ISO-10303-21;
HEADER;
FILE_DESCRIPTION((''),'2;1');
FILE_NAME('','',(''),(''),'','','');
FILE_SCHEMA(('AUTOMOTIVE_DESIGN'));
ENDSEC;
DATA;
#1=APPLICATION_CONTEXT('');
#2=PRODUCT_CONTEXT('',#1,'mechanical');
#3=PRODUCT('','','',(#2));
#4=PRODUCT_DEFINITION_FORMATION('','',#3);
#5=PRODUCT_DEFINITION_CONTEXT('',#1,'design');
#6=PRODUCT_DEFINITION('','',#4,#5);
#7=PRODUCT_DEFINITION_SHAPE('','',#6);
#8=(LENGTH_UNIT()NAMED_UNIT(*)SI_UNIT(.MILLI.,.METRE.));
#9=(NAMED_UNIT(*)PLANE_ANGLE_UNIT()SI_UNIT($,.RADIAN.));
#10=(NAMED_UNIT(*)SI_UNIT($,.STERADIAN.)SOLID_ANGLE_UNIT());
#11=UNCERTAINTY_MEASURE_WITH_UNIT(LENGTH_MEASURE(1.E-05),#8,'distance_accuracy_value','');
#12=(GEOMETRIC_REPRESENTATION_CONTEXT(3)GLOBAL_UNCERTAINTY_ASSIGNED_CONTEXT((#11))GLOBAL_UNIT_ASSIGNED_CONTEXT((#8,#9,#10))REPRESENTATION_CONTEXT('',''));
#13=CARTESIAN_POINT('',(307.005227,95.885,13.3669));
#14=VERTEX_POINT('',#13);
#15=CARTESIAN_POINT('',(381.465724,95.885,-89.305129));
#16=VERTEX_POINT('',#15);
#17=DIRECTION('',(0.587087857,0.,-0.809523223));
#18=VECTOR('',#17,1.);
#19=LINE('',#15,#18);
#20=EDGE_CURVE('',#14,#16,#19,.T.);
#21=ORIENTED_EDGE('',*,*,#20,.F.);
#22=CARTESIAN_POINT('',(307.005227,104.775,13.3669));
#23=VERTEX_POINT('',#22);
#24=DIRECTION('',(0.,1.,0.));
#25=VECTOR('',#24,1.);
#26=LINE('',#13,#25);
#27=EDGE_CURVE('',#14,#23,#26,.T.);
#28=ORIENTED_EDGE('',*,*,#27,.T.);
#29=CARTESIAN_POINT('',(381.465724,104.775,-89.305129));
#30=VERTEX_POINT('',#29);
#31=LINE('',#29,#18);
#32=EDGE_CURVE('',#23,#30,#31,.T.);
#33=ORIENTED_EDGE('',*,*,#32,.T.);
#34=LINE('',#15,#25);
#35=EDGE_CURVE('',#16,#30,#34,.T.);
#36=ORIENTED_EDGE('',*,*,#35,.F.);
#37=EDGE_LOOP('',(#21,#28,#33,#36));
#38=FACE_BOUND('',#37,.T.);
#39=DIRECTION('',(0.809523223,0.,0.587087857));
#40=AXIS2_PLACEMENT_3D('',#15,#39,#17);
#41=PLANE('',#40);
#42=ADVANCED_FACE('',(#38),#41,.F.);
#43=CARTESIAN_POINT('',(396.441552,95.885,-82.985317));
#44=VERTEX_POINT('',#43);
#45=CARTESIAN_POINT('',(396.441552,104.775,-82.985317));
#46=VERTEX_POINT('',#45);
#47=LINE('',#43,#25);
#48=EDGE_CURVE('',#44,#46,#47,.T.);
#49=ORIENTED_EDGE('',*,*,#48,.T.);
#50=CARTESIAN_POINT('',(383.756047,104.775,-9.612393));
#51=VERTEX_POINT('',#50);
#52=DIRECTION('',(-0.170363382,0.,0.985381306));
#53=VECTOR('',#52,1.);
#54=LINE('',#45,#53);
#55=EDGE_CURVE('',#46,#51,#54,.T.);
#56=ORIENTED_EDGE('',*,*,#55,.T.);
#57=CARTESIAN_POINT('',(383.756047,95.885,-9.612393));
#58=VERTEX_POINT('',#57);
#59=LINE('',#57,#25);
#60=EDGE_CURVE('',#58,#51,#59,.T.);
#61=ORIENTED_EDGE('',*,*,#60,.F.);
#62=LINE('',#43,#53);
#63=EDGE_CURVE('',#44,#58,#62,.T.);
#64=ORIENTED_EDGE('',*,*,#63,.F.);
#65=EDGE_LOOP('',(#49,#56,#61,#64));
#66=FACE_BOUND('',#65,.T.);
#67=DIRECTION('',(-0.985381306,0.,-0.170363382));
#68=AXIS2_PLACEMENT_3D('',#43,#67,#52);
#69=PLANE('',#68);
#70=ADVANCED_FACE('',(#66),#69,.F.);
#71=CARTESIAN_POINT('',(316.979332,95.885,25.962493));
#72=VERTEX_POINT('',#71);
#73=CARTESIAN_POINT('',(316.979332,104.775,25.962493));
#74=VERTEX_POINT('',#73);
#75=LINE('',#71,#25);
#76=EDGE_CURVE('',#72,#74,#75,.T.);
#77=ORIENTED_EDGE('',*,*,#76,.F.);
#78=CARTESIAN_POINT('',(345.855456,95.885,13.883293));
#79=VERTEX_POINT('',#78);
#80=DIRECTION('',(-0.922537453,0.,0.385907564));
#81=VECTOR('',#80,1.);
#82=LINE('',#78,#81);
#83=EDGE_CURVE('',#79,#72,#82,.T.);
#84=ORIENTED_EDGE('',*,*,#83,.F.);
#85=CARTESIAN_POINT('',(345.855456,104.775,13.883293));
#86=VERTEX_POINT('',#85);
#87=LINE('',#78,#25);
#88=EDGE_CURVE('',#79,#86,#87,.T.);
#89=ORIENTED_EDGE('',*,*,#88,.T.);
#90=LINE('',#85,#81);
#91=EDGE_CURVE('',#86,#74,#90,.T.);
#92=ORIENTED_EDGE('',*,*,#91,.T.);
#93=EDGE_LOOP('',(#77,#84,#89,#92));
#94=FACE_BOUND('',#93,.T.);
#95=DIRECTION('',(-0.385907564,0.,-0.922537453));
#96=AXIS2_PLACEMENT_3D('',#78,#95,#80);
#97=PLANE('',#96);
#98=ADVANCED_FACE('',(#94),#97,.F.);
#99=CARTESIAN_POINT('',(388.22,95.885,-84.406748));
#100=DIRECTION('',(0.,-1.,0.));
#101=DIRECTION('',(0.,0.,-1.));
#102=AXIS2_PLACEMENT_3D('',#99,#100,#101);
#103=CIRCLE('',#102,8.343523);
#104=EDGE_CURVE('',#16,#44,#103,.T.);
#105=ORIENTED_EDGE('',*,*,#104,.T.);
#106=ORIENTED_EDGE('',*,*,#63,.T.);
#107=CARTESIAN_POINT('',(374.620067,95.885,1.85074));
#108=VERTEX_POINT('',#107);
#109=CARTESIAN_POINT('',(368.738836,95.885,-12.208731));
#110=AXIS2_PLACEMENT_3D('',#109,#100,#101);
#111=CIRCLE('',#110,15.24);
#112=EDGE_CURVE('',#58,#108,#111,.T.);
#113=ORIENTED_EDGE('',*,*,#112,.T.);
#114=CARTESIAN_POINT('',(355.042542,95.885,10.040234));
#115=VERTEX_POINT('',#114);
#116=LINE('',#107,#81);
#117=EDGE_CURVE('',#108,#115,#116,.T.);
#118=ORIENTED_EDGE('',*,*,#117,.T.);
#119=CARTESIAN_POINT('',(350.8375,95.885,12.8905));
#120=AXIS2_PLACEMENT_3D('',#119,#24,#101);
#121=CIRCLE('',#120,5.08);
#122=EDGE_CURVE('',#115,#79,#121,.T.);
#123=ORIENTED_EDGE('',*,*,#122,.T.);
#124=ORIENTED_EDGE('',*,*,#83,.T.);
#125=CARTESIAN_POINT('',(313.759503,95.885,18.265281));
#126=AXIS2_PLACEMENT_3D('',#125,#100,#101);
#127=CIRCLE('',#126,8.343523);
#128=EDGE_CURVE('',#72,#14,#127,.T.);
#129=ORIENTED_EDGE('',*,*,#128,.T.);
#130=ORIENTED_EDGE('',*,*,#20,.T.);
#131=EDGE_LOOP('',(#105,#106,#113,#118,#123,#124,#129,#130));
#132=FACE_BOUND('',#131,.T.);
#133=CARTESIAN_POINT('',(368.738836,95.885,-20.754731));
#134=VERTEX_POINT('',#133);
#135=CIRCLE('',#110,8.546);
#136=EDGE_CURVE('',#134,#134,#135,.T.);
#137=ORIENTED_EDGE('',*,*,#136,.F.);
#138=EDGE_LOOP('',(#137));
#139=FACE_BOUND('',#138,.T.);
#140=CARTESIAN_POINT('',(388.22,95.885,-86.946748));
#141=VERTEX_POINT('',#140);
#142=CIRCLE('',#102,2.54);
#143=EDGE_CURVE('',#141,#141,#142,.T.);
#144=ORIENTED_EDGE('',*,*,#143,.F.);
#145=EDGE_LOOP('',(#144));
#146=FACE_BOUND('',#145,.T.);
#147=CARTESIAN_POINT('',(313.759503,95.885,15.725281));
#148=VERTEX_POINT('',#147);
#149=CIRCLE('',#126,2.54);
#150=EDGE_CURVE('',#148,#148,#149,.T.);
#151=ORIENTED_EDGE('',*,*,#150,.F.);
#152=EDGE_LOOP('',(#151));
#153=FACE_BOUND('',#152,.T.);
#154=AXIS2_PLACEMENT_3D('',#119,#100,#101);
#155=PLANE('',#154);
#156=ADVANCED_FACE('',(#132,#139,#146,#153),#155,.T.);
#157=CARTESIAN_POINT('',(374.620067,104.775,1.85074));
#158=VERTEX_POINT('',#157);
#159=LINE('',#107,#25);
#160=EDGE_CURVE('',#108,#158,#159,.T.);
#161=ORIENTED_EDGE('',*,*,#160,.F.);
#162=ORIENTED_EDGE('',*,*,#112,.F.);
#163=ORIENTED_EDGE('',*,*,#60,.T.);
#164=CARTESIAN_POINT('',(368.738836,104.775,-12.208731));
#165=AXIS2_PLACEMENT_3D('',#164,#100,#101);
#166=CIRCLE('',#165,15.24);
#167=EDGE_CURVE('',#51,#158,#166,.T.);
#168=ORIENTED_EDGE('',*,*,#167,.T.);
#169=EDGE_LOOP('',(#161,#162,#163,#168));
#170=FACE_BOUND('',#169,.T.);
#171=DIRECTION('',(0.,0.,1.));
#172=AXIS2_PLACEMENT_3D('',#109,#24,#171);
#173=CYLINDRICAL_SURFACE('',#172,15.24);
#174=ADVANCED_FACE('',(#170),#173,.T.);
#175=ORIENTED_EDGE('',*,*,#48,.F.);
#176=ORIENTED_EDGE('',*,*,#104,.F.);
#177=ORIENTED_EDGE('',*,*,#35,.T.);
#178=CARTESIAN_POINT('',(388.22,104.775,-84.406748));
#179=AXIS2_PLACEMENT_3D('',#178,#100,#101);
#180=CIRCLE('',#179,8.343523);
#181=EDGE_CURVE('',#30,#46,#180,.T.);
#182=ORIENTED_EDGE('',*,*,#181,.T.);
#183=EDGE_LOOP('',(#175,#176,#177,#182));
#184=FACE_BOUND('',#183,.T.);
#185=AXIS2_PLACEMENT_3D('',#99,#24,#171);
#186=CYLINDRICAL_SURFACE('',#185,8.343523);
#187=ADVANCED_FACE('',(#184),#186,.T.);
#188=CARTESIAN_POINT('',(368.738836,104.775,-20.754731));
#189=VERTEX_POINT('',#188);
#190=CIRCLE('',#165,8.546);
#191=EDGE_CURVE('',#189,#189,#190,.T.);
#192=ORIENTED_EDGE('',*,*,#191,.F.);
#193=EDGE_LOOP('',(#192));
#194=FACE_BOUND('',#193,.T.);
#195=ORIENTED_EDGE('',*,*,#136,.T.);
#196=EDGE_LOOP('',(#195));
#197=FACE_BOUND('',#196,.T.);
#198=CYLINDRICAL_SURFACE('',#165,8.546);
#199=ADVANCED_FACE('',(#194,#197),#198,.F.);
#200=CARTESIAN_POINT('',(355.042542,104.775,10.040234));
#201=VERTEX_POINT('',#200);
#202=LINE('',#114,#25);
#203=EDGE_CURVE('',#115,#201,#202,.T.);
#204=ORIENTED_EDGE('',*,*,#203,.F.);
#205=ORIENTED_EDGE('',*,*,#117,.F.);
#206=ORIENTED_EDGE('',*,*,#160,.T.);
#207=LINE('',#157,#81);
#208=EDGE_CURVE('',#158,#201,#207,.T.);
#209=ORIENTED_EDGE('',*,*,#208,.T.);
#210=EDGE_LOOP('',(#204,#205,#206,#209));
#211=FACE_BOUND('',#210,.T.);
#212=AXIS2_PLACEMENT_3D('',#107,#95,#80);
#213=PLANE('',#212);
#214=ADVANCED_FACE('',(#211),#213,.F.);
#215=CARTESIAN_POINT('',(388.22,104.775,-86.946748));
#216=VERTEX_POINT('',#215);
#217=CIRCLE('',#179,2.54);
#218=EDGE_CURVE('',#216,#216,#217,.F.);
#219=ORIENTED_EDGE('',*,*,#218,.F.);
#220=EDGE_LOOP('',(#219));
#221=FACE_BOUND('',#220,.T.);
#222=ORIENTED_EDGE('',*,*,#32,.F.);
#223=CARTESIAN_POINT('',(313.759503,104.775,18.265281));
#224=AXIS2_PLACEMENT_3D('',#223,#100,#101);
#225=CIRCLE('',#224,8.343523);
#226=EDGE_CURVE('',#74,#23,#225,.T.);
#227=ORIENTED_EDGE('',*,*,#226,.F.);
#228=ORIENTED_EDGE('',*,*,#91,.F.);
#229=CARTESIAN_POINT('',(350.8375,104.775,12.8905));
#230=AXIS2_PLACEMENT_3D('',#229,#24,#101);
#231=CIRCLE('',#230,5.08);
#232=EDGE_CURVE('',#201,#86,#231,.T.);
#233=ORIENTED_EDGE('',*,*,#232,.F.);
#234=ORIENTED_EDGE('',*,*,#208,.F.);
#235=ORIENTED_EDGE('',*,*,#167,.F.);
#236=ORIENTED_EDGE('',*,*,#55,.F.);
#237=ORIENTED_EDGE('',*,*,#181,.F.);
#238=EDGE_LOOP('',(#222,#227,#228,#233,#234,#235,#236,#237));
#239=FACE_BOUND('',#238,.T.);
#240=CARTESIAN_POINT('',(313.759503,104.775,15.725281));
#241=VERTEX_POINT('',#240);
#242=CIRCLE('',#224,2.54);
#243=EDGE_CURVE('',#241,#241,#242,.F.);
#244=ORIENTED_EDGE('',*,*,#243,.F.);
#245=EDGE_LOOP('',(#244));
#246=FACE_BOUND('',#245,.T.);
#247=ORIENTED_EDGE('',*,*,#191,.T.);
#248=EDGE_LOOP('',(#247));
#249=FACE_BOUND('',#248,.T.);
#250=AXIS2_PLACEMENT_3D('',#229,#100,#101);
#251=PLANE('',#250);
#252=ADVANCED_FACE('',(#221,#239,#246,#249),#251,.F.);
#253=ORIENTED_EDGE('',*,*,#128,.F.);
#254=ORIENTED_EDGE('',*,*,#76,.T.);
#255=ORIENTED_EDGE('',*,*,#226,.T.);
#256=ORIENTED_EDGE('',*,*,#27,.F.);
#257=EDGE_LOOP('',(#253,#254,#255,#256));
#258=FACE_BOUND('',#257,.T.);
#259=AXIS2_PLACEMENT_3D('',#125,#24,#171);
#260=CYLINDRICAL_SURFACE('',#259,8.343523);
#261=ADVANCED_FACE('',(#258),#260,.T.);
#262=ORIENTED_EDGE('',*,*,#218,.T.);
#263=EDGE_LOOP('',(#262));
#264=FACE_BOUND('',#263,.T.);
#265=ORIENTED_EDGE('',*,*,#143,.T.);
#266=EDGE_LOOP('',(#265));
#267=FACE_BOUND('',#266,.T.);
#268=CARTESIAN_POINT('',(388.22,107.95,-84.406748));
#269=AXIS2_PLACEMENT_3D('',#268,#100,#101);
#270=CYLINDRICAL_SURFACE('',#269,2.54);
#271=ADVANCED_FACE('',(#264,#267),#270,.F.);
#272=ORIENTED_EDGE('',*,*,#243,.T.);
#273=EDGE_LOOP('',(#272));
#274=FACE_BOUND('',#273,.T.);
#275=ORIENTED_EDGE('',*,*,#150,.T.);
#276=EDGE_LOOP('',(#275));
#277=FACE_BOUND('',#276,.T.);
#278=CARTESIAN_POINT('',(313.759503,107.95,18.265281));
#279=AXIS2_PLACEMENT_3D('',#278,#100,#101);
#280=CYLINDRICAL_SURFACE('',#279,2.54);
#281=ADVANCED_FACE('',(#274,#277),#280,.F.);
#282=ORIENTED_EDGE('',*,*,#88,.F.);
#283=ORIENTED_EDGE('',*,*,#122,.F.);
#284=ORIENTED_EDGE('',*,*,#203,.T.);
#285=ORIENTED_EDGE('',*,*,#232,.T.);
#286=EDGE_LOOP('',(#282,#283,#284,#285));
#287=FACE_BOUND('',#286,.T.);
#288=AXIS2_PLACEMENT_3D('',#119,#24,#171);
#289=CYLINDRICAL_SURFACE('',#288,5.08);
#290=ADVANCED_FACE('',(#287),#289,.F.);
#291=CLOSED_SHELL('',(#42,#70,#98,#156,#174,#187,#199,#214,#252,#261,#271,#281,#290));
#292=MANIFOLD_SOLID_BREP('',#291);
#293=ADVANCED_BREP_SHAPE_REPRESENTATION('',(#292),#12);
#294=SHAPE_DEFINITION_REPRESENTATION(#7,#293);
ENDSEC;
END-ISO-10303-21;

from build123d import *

# Parameters (mm, degrees)
SKETCH1_W                  = 355.6
SKETCH1_H                  = 77.724
BOSS_EXTRUDE1_DEPTH        = 22.225
SKETCH2_W                  = 74.549
SKETCH2_H                  = 19.05
CUT_EXTRUDE1_DEPTH         = 364.67400769
SKETCH3_W                  = 25.4
SKETCH3_H                  = 3.937
CUT_EXTRUDE2_DEPTH         = 817.444922817
SKETCH4_W                  = 330.2
SKETCH4_H                  = 3.175
BOSS_EXTRUDE2_DEPTH        = 15.875
SKETCH5_W                  = 69.85
SKETCH5_H                  = 3.175
BOSS_EXTRUDE3_DEPTH        = 457.2
SKETCH6_W                  = 330.2
SKETCH6_H                  = 3.175
BOSS_EXTRUDE4_DEPTH        = 3.937
SKETCH7_W                  = 330.2
SKETCH7_H                  = 3.175
BOSS_EXTRUDE5_DEPTH        = 15.875
SKETCH8_W                  = 355.6
SKETCH8_H                  = 3.175
BOSS_EXTRUDE6_DEPTH        = 3.937
SKETCH9_W                  = 355.6
SKETCH9_H                  = 3.175
BOSS_EXTRUDE7_DEPTH        = 19.05
SKETCH10_W                 = 76.358809824
SKETCH10_H                 = 3.175
BOSS_EXTRUDE8_DEPTH        = 27.432
SKETCH11_W                 = 124.052954744
SKETCH11_H                 = 3.175
BOSS_EXTRUDE9_DEPTH        = 19.05
DRAFT1_ANGLE               = 30
DRAFT2_ANGLE               = 19
M20_CLEARANCE_HOLE1_D      = 22.225
M20_CLEARANCE_HOLE1_DEPTH  = 19.050025
HOLE1_D                    = 8.128
HOLE1_DEPTH                = 22.225
M25_CLEARANCE_HOLE1_D      = 28.575
M25_CLEARANCE_HOLE1_DEPTH  = 22.225
M3_CLEARANCE_HOLE1_D       = 3.571875
M3_CLEARANCE_HOLE1_DEPTH   = 22.225
M2_CLEARANCE_HOLE1_D       = 2.54
M2_CLEARANCE_HOLE1_DEPTH   = 22.225
M3_5_CLEARANCE_HOLE1_D     = 4.064
M3_5_CLEARANCE_HOLE1_DEPTH = 22.225
HOLE2_D                    = 5.08
HOLE2_DEPTH                = 22.225
M25_CLEARANCE_HOLE2_D      = 28.575
M25_CLEARANCE_HOLE2_DEPTH  = 19.050025
HOLE3_D                    = 5.1054
HOLE3_DEPTH                = 19.050025
HOLE4_D                    = 8.128
HOLE4_DEPTH                = 19.050025
M3_CLEARANCE_HOLE2_D       = 3.571875
M3_CLEARANCE_HOLE2_DEPTH   = 19.050025
M6_CLEARANCE_HOLE1_D       = 6.7056
M6_CLEARANCE_HOLE1_DEPTH   = 22.225
M6_CLEARANCE_HOLE2_D       = 6.7056
M6_CLEARANCE_HOLE2_DEPTH   = 101.219
M5_CLEARANCE_HOLE1_D       = 5.334
M5_CLEARANCE_HOLE1_DEPTH   = 92.837
CHAMFER1_SIZE              = 3.175
FILLET1_R                  = 0.762
FILLET2_R                  = 3.175
FILLET3_R                  = 3.937
CUT_EXTRUDE3_DEPTH         = 819.902667079
CUT_EXTRUDE3_DEPTH_BACK    = 819.902667079
BOSS_EXTRUDE10_START       = -3.175
SKETCH45_W                 = 177.8
SKETCH45_H                 = 304.8
SKETCH45_R                 = 2.54
SKETCH45_R_2               = 14.2875
SKETCH45_R_3               = 2.032
SKETCH45_R_4               = 3.3528
BOSS_EXTRUDE10_DEPTH       = 3.175
SKETCH61_R                 = 9.652
SKETCH61_R_2               = 14.351
CUT_EXTRUDE16_DEPTH        = 556.389125447
SKETCH59_R                 = 9.5
CUT_EXTRUDE17_DEPTH        = 556.389125447
SKETCH62_R                 = 3.175
CUT_EXTRUDE18_DEPTH        = 556.389125447
CUT_EXTRUDE19_DEPTH        = 556.389125447
SKETCH70_R                 = 9.5
SKETCH70_R_2               = 8.5
BOSS_EXTRUDE15_DEPTH       = 3.175
SKETCH73_R                 = 2.54
CUT_EXTRUDE21_DEPTH        = 556.389125447
FILLET9_R                  = 25.4
BOSS_EXTRUDE17_START       = 101.6
SKETCH74_R                 = 2.54
SKETCH74_R_2               = 14.351
SKETCH74_R_3               = 9.5
SKETCH74_R_4               = 6.35
BOSS_EXTRUDE17_DEPTH       = 3.175
SKETCH75_W                 = 279.499497025
SKETCH75_H                 = 356.937981548
CUT_EXTRUDE22_DEPTH        = 566.17678709
SKETCH93_R                 = 2.54
CUT_EXTRUDE32_DEPTH        = 526.348222626
SKETCH98_R                 = 9.6
SKETCH98_R_2               = 2.54
BOSS_EXTRUDE23_DEPTH       = 8.89
SKETCH99_W                 = 685.374390259
SKETCH99_H                 = 496.181227768
CUT_EXTRUDE37_DEPTH        = 526.413843071
SKETCH100_R                = 9.6
SKETCH100_R_2              = 8.54600018
BOSS_EXTRUDE24_DEPTH       = 8.89


with BuildPart() as part:
    # Sketch1 → Boss-Extrude1 (new body)
    with BuildSketch(Plane(origin=(0, 3.175, 0), x_dir=(1, 0, 0), z_dir=(0, 1, 0))):
        with Locations((635, 34.925)):
            Rectangle(SKETCH1_W, SKETCH1_H)
    extrude(amount=-BOSS_EXTRUDE1_DEPTH)

    # Sketch2 → Cut-Extrude1 (cut, through all)
    with BuildSketch(Plane(origin=(812.8, 0, 0), x_dir=(0, 0, -1), z_dir=(1, 0, 0))):
        with Locations((33.3375, -9.525)):
            Rectangle(SKETCH2_W, SKETCH2_H)
    extrude(amount=-CUT_EXTRUDE1_DEPTH, mode=Mode.SUBTRACT)

    # Sketch3 → Cut-Extrude2 (cut, through all)
    with BuildSketch(Plane(origin=(0, 3.175, 0), x_dir=(-1, 0, 0), z_dir=(0, 1, 0))):
        with Locations((-469.9, 1.9685)):
            Rectangle(SKETCH3_W, SKETCH3_H)
    extrude(amount=-CUT_EXTRUDE2_DEPTH, mode=Mode.SUBTRACT)

    # Sketch4 → Boss-Extrude2 (add)
    with BuildSketch(Plane(origin=(0, 3.175, 0), x_dir=(-1, 0, 0), z_dir=(0, 1, 0))):
        with Locations((-647.7, 2.3495)):
            Rectangle(SKETCH4_W, SKETCH4_H)
    extrude(amount=BOSS_EXTRUDE2_DEPTH)

    # Sketch5 → Boss-Extrude3 (add)
    with BuildSketch(Plane.ZY.offset(-457.2)):
        with Locations((-34.925, 1.5875)):
            Rectangle(SKETCH5_W, SKETCH5_H)
    extrude(amount=BOSS_EXTRUDE3_DEPTH)

    # Sketch6 → Boss-Extrude4 (add)
    with BuildSketch(Plane.XY):
        with Locations((165.1, 1.5875)):
            Rectangle(SKETCH6_W, SKETCH6_H)
    extrude(amount=BOSS_EXTRUDE4_DEPTH)

    # Sketch7 → Boss-Extrude5 (add)
    with BuildSketch(Plane(origin=(0, 3.175, 0), x_dir=(-1, 0, 0), z_dir=(0, 1, 0))):
        with Locations((-165.1, 2.3495)):
            Rectangle(SKETCH7_W, SKETCH7_H)
    extrude(amount=BOSS_EXTRUDE5_DEPTH)

    # Sketch8 → Boss-Extrude6 (add)
    with BuildSketch(Plane(origin=(0, 0, -69.85), x_dir=(-1, 0, 0), z_dir=(0, 0, -1))):
        with Locations((-177.8, 1.5875)):
            Rectangle(SKETCH8_W, SKETCH8_H)
    extrude(amount=BOSS_EXTRUDE6_DEPTH)

    # Sketch9 → Boss-Extrude7 (add)
    with BuildSketch(Plane.XZ):
        with Locations((177.8, -72.1995)):
            Rectangle(SKETCH9_W, SKETCH9_H)
    extrude(amount=BOSS_EXTRUDE7_DEPTH)

    # Sketch10 → Boss-Extrude8 (add)
    with BuildSketch(Plane(origin=(0, 0, -69.85), x_dir=(-1, 0, 0), z_dir=(0, 0, -1))):
        with Locations((-406.4, 1.5875)):
            Rectangle(SKETCH10_W, SKETCH10_H)
    extrude(amount=BOSS_EXTRUDE8_DEPTH)

    # Sketch11 → Boss-Extrude9 (add)
    with BuildSketch(Plane.XY):
        with Locations((406.4, 1.5875)):
            Rectangle(SKETCH11_W, SKETCH11_H)
    extrude(amount=BOSS_EXTRUDE9_DEPTH)

    # Draft1
    draft1_faces = [part.faces().sort_by_distance(p)[0] for p in [
        (344.373522628, 1.5875, 9.525),
        (468.426477372, 1.5875, 9.525),
    ]]
    draft(draft1_faces, Plane.XY.offset(19.05), DRAFT1_ANGLE)

    # Draft2
    draft2_faces = [part.faces().sort_by_distance(p)[0] for p in [
        (368.220595088, 1.5875, -83.566),
        (444.579404912, 1.5875, -83.566),
    ]]
    draft(draft2_faces, Plane(origin=(0, 0, -97.282), x_dir=(-1, 0, 0), z_dir=(0, 0, -1)), DRAFT2_ANGLE)

    # M20 Clearance Hole1
    with Locations(Plane(origin=(0, 0, 0), x_dir=(-1, 0, 0), z_dir=(0, -1, 0))):
        with Locations((-624.254637168, 36.83)):
            Hole(M20_CLEARANCE_HOLE1_D / 2, depth=M20_CLEARANCE_HOLE1_DEPTH)

    # Hole1
    with Locations(Plane(origin=(0, 3.175, 0), x_dir=(1, 0, 0), z_dir=(0, 1, 0))):
        with Locations((229.261562832, 36.83), (229.261562832, 62.23), (229.261562832, 11.43)):
            Hole(HOLE1_D / 2, depth=HOLE1_DEPTH)

    # M25 Clearance Hole1
    with Locations(Plane(origin=(0, 3.175, 0), x_dir=(1, 0, 0), z_dir=(0, 1, 0))):
        with Locations((147.829162832, 36.83)):
            Hole(M25_CLEARANCE_HOLE1_D / 2, depth=M25_CLEARANCE_HOLE1_DEPTH)

    # M3 Clearance Hole1
    with Locations(Plane(origin=(0, 3.175, 0), x_dir=(1, 0, 0), z_dir=(0, 1, 0))):
        with Locations((120.600362832, 65.405), (120.600362832, 8.255), (237.440362832, 8.255), (237.440362832, 65.405)):
            Hole(M3_CLEARANCE_HOLE1_D / 2, depth=M3_CLEARANCE_HOLE1_DEPTH)

    # M2 Clearance Hole1
    with Locations(Plane(origin=(0, 3.175, 0), x_dir=(1, 0, 0), z_dir=(0, 1, 0))):
        with Locations((101.6, 3.175), (101.6, 66.675), (50.8, 66.675), (50.8, 3.175), (762, 66.675), (762, 3.175), (711.2, 3.175), (711.2, 66.675)):
            Hole(M2_CLEARANCE_HOLE1_D / 2, depth=M2_CLEARANCE_HOLE1_DEPTH)

    # M3.5 Clearance Hole1
    with Locations(Plane(origin=(0, 3.175, 0), x_dir=(1, 0, 0), z_dir=(0, 1, 0))):
        with Locations((443.992, 87.85352), (368.808, 87.85352), (361.9119, -1.03886), (450.8881, -1.03886)):
            Hole(M3_5_CLEARANCE_HOLE1_D / 2, depth=M3_5_CLEARANCE_HOLE1_DEPTH)

    # Hole2
    with Locations(Plane(origin=(0, 3.175, 0), x_dir=(1, 0, 0), z_dir=(0, 1, 0))):
        with Locations((438.15, 87.85352), (374.65, 87.85352), (445.0461, -1.03886), (367.7539, -1.03886), (115.520362832, 65.405), (115.520362832, 8.255), (242.520362832, 8.255), (242.520362832, 65.405)):
            Hole(HOLE2_D / 2, depth=HOLE2_DEPTH)

    # M25 Clearance Hole2
    with Locations(Plane(origin=(0, 0, 0), x_dir=(-1, 0, 0), z_dir=(0, -1, 0))):
        with Locations((-406.4, 17.272), (-664.970837168, 36.83)):
            Hole(M25_CLEARANCE_HOLE2_D / 2, depth=M25_CLEARANCE_HOLE2_DEPTH)

    # Hole3
    with Locations(Plane(origin=(0, 0, 0), x_dir=(-1, 0, 0), z_dir=(0, -1, 0))):
        with Locations((-570.279637168, 8.255), (-570.279637168, 65.405), (-697.279637168, 65.405), (-697.279637168, 8.255)):
            Hole(HOLE3_D / 2, depth=HOLE3_DEPTH)

    # Hole4
    with Locations(Plane(origin=(0, 0, 0), x_dir=(-1, 0, 0), z_dir=(0, -1, 0))):
        with Locations((-583.538437168, 11.43), (-583.538437168, 36.83), (-583.538437168, 62.23)):
            Hole(HOLE4_D / 2, depth=HOLE4_DEPTH)

    # M3 Clearance Hole2
    with Locations(Plane(origin=(0, 0, 0), x_dir=(-1, 0, 0), z_dir=(0, -1, 0))):
        with Locations((-692.199637168, 8.255), (-692.199637168, 65.405), (-575.359637168, 65.405), (-575.359637168, 8.255)):
            Hole(M3_CLEARANCE_HOLE2_D / 2, depth=M3_CLEARANCE_HOLE2_DEPTH)

    # M6 Clearance Hole1
    with Locations(Plane(origin=(0, 3.175, 0), x_dir=(1, 0, 0), z_dir=(0, 1, 0))):
        with Locations((612.775, 10.287), (498.475, 10.287), (314.325, 10.287), (200.025, 10.287), (628.319218584, 61.976), (184.480781416, 61.976), (690.88, 15.875), (739.902, 9.525), (121.92, 15.875), (72.898, 9.525), (298.874532383, 17.547282407), (513.925467617, 17.547282407), (165.1, 14.732), (266.7, 14.732), (546.1, 14.732), (647.7, 14.732), (330.2, 61.722), (279.4, 61.722), (139.7, 61.722), (25.4, 61.722), (482.6, 61.722), (533.4, 61.722), (673.1, 61.722), (787.4, 61.722), (6.35, 39.497), (806.45, 39.497), (350.8375, -12.8905), (461.9625, -12.8905)):
            Hole(M6_CLEARANCE_HOLE1_D / 2, depth=M6_CLEARANCE_HOLE1_DEPTH)

    # M6 Clearance Hole2
    with Locations(Plane.XY.offset(3.937)):
        with Locations((495.3, 12.7), (520.7, 12.7), (546.1, 12.7), (571.5, 12.7), (596.9, 12.7), (622.3, 12.7), (647.7, 12.7), (673.1, 12.7), (698.5, 12.7), (723.9, 12.7), (749.3, 12.7), (774.7, 12.7), (800.1, 12.7), (317.5, 12.7), (292.1, 12.7), (266.7, 12.7), (241.3, 12.7), (215.9, 12.7), (190.5, 12.7), (165.1, 12.7), (139.7, 12.7), (114.3, 12.7), (88.9, 12.7), (63.5, 12.7), (12.7, 12.7), (38.1, 12.7)):
            Hole(M6_CLEARANCE_HOLE2_D / 2, depth=M6_CLEARANCE_HOLE2_DEPTH)

    # M5 Clearance Hole1
    with Locations(Plane(origin=(0, 0, -73.787), x_dir=(-1, 0, 0), z_dir=(0, 0, -1))):
        with Locations((-469.9, -12.7), (-495.3, -12.7), (-520.7, -12.7), (-546.1, -12.7), (-571.5, -12.7), (-596.9, -12.7), (-622.3, -12.7), (-647.7, -12.7), (-673.1, -12.7), (-698.5, -12.7), (-723.9, -12.7), (-749.3, -12.7), (-774.7, -12.7), (-800.1, -12.7), (-342.9, -12.7), (-317.5, -12.7), (-292.1, -12.7), (-266.7, -12.7), (-241.3, -12.7), (-215.9, -12.7), (-190.5, -12.7), (-165.1, -12.7), (-139.7, -12.7), (-114.3, -12.7), (-88.9, -12.7), (-63.5, -12.7), (-38.1, -12.7), (-12.7, -12.7)):
            Hole(M5_CLEARANCE_HOLE1_D / 2, depth=M5_CLEARANCE_HOLE1_DEPTH)

    # Chamfer1
    chamfer1_edges = [part.edges().sort_by_distance(p)[0] for p in [
        (482.6, 19.05, 2.3495),
        (0, 19.05, 2.3495),
        (812.8, 19.05, 2.3495),
        (812.8, -19.05, -72.1995),
        (457.2, -19.05, -72.1995),
        (0, -19.05, -72.1995),
        (330.2, 19.05, 2.3495),
        (355.6, -19.05, -72.1995),
    ]]
    chamfer(chamfer1_edges, length=CHAMFER1_SIZE)

    # Fillet1
    fillet1_edges = [part.edges().sort_by_distance(p)[0] for p in [
        (647.7, 3.175, 0.762),
        (177.8, 0, -70.612),
        (635, 0, -70.612),
        (165.1, 3.175, 0.762),
    ]]
    fillet(fillet1_edges, radius=FILLET1_R)

    # Fillet2
    fillet2_edges = [part.edges().sort_by_distance(p)[0] for p in [
        (368.220595088, 1.5875, -97.282),
        (333.375, 1.5875, 0),
        (344.373522628, 1.5875, 19.05),
        (444.579404912, 1.5875, -97.282),
        (358.775, 1.5875, -69.85),
        (479.425, 1.5875, 0),
        (468.426477372, 1.5875, 19.05),
        (454.025, 1.5875, -69.85),
    ]]
    fillet(fillet2_edges, radius=FILLET2_R)

    # Fillet3
    fillet3_edges = [part.edges().sort_by_distance(p)[0] for p in [
        (165.1, 0, 3.937),
        (647.7, 0, 3.937),
        (635, 3.175, -73.787),
        (177.8, 3.175, -73.787),
    ]]
    fillet(fillet3_edges, radius=FILLET3_R)

    # Sketch44 → Cut-Extrude3 (cut, two sides: drawn at the far end of the back side and taken through both)
    with BuildSketch(Plane(origin=(0, 3.175, 0), x_dir=(1, 0, 0), z_dir=(0, 1, 0)).offset(-CUT_EXTRUDE3_DEPTH_BACK)):
        Polygon((367.483279101, 95.14067889), (343.456979076, -17.4625), (339.564298226, -35.70618453), (-19.786749283, -35.70618453), (-19.786749283, 120.609234526), (367.483279101, 120.609234526), align=None)
        Polygon((445.316720899, 95.14067889), (445.316720899, 120.609234526), (832.586749283, 120.609234526), (832.586749283, -35.70618453), (473.235701774, -35.70618453), (469.343020924, -17.4625), align=None)
    extrude(amount=CUT_EXTRUDE3_DEPTH + CUT_EXTRUDE3_DEPTH_BACK, mode=Mode.SUBTRACT)

    # Sketch45 → Boss-Extrude10 (add)
    with BuildSketch(Plane(origin=(0, 3.175, 0), x_dir=(1, 0, 0), z_dir=(0, 1, 0)).offset(BOSS_EXTRUDE10_START)):
        with Locations((392.1125, 125.222)):
            Rectangle(SKETCH45_W, SKETCH45_H)
        with Locations(Location((374.65, 87.85352, 0), (0, 0, 270))):
            Circle(SKETCH45_R, mode=Mode.SUBTRACT)
        with Locations(Location((406.4, 17.272, 0), (0, 0, 90))):
            Circle(SKETCH45_R_2, mode=Mode.SUBTRACT)
        with Locations(Location((368.808, 87.85352, 0), (0, 0, 270))):
            Circle(SKETCH45_R_3, mode=Mode.SUBTRACT)
        with Locations(Location((438.15, 87.85352, 0), (0, 0, 270))):
            Circle(SKETCH45_R, mode=Mode.SUBTRACT)
        with Locations(Location((443.992, 87.85352, 0), (0, 0, 270))):
            Circle(SKETCH45_R_3, mode=Mode.SUBTRACT)
        with Locations(Location((445.0461, -1.03886, 0), (0, 0, 270))):
            Circle(SKETCH45_R, mode=Mode.SUBTRACT)
        with Locations(Location((450.8881, -1.03886, 0), (0, 0, 270))):
            Circle(SKETCH45_R_3, mode=Mode.SUBTRACT)
        with Locations(Location((461.9625, -12.8905, 0), (0, 0, 270))):
            Circle(SKETCH45_R_4, mode=Mode.SUBTRACT)
        with Locations(Location((367.7539, -1.03886, 0), (0, 0, 270))):
            Circle(SKETCH45_R, mode=Mode.SUBTRACT)
        with Locations(Location((361.9119, -1.03886, 0), (0, 0, 270))):
            Circle(SKETCH45_R_3, mode=Mode.SUBTRACT)
        with Locations(Location((350.8375, -12.8905, 0), (0, 0, 270))):
            Circle(SKETCH45_R_4, mode=Mode.SUBTRACT)
    extrude(amount=BOSS_EXTRUDE10_DEPTH)

    # Sketch61 → Cut-Extrude16 (cut, through all)
    with BuildSketch(Plane(origin=(0, 3.175, 0), x_dir=(1, 0, 0), z_dir=(0, 1, 0))):
        with Locations(Location((354.59, 181.205026561, 0), (0, 0, 270))):
            Circle(SKETCH61_R)
        with Locations(Location((427.755496639, 227.083776561, 0), (0, 0, 270))):
            Circle(SKETCH61_R)
        with Locations(Location((427.755496639, 145.803776561, 0), (0, 0, 270))):
            Circle(SKETCH61_R_2)
    extrude(amount=-CUT_EXTRUDE16_DEPTH, mode=Mode.SUBTRACT)

    # Sketch59 → Cut-Extrude17 (cut, through all)
    with BuildSketch(Plane(origin=(0, 3.175, 0), x_dir=(1, 0, 0), z_dir=(0, 1, 0))):
        with Locations(Location((348.684503149, 23.009719341, 0), (0, 0, 270))):
            Circle(SKETCH59_R)
    extrude(amount=-CUT_EXTRUDE17_DEPTH, mode=Mode.SUBTRACT)

    # Sketch62 → Cut-Extrude18 (cut, through all)
    with BuildSketch(Plane(origin=(0, 3.175, 0), x_dir=(1, 0, 0), z_dir=(0, 1, 0))):
        with Locations(Location((354.59, 206.605026561, 0), (0, 0, 270))):
            Circle(SKETCH62_R)
        with Locations(Location((354.59, 155.805026561, 0), (0, 0, 270))):
            Circle(SKETCH62_R)
        with Locations(Location((402.355496639, 227.083776561, 0), (0, 0, 270))):
            Circle(SKETCH62_R)
        with Locations(Location((453.155496639, 227.083776561, 0), (0, 0, 270))):
            Circle(SKETCH62_R)
    extrude(amount=-CUT_EXTRUDE18_DEPTH, mode=Mode.SUBTRACT)

    # Sketch64 → Cut-Extrude19 (cut, through all)
    with BuildSketch(Plane(origin=(0, 3.175, 0), x_dir=(1, 0, 0), z_dir=(0, 1, 0))):
        with BuildLine():
            Line((303.2125, 150.622), (303.2125, 277.622))
            Line((303.2125, 277.622), (430.2125, 277.622))
            ThreePointArc((430.2125, 277.622), (340.409938789, 240.424561211), (303.2125, 150.622))
        make_face()
    extrude(amount=-CUT_EXTRUDE19_DEPTH, mode=Mode.SUBTRACT)

    # Sketch70 → Boss-Extrude15 (add)
    with BuildSketch(Plane(origin=(0, 3.175, 0), x_dir=(1, 0, 0), z_dir=(0, 1, 0))):
        with Locations((348.684503149, 23.009719341)):
            Circle(SKETCH70_R)
        with Locations(Location((348.684503149, 23.009719341, 0), (0, 0, 270))):
            Circle(SKETCH70_R_2, mode=Mode.SUBTRACT)
    extrude(amount=-BOSS_EXTRUDE15_DEPTH)

    # Sketch73 → Cut-Extrude21 (cut, through all)
    with BuildSketch(Plane(origin=(0, 3.175, 0), x_dir=(1, 0, 0), z_dir=(0, 1, 0))):
        with Locations(Location((453.155496639, 69.943578721, 0), (0, 0, 270))):
            Circle(SKETCH73_R)
        with Locations(Location((461.9625, 190.253776561, 0), (0, 0, 270))):
            Circle(SKETCH73_R)
        with Locations(Location((345.205496639, 120.403776561, 0), (0, 0, 270))):
            Circle(SKETCH73_R)
        with Locations(Location((388.219999894, 84.406747951, 0), (0, 0, 270))):
            Circle(SKETCH73_R)
        with Locations(Location((313.759503149, -18.265280659, 0), (0, 0, 270))):
            Circle(SKETCH73_R)
    extrude(amount=-CUT_EXTRUDE21_DEPTH, mode=Mode.SUBTRACT)

    # Fillet9
    fillet9_edges = [part.edges().sort_by_distance(p)[0] for p in [
        (481.0125, 1.5875, 27.178),
        (481.0125, 1.5875, -277.622),
    ]]
    fillet(fillet9_edges, radius=FILLET9_R)

    # Sketch75 → Cut-Extrude22 (cut, through all)
    with BuildSketch(Plane(origin=(0, 3.175, 0), x_dir=(1, 0, 0), z_dir=(0, 1, 0))):
        with Locations((372.338031056, 109.356950247)):
            Rectangle(SKETCH75_W, SKETCH75_H)
    extrude(amount=-CUT_EXTRUDE22_DEPTH, mode=Mode.SUBTRACT)


with BuildPart() as body_2:
    # Sketch74 → Boss-Extrude17 (new body)
    with BuildSketch(Plane(origin=(0, 3.175, 0), x_dir=(1, 0, 0), z_dir=(0, 1, 0)).offset(BOSS_EXTRUDE17_START)):
        with BuildLine():
            Line((303.501804087, -11.782702808), (332.794800726, 123.099073753))
            ThreePointArc((332.794800726, 123.099073753), (334.793445529, 127.675584568), (338.402025721, 131.127711635))
            Line((338.402025721, 131.127711635), (461.509029081, 209.229165205))
            ThreePointArc((461.509029081, 209.229165205), (475.073661576, 209.255890303), (480.92514682, 197.018239818))
            Line((480.92514682, 197.018239818), (465.768143459, 68.456588408))
            ThreePointArc((465.768143459, 68.456588408), (463.858984359, 63.107984333), (459.809495756, 59.126264093))
            Line((459.809495756, 59.126264093), (322.566499117, -25.295314628))
            ThreePointArc((322.566499117, -25.295314628), (308.568620981, -24.839343588), (303.501804087, -11.782702808))
        make_face()
        with Locations(Location((453.155496639, 69.943578721, 0), (0, 0, 270))):
            Circle(SKETCH74_R, mode=Mode.SUBTRACT)
        with Locations(Location((461.9625, 190.253776561, 0), (0, 0, 270))):
            Circle(SKETCH74_R, mode=Mode.SUBTRACT)
        with Locations(Location((345.205496639, 120.403776561, 0), (0, 0, 270))):
            Circle(SKETCH74_R, mode=Mode.SUBTRACT)
        with Locations(Location((388.219999894, 84.406747951, 0), (0, 0, 270))):
            Circle(SKETCH74_R, mode=Mode.SUBTRACT)
        with Locations(Location((313.759503149, -18.265280659, 0), (0, 0, 270))):
            Circle(SKETCH74_R, mode=Mode.SUBTRACT)
        with Locations(Location((427.755496639, 145.803776561, 0), (0, 0, 270))):
            Circle(SKETCH74_R_2, mode=Mode.SUBTRACT)
        with Locations(Location((348.684503149, 23.009719341, 0), (0, 0, 270))):
            Circle(SKETCH74_R_3, mode=Mode.SUBTRACT)
        with Locations(Location((420.687748267, 77.175163336, 0), (0, 0, 270))):
            Circle(SKETCH74_R_4, mode=Mode.SUBTRACT)
        with Locations(Location((371.729, 87.85352, 0), (0, 0, 270))):
            Circle(SKETCH74_R_4, mode=Mode.SUBTRACT)
        with Locations(Location((441.071, 87.85352, 0), (0, 0, 270))):
            Circle(SKETCH74_R_4, mode=Mode.SUBTRACT)
    extrude(amount=BOSS_EXTRUDE17_DEPTH)

    # Sketch93 → Cut-Extrude32 (cut, through all)
    with BuildSketch(Plane(origin=(0, 107.95, 0), x_dir=(1, 0, 0), z_dir=(0, 1, 0))):
        with Locations(Location((335.984503149, 61.109719341, 0), (0, 0, 270))):
            Circle(SKETCH93_R)
        with Locations(Location((361.384503149, 61.109719341, 0), (0, 0, 270))):
            Circle(SKETCH93_R)
    extrude(amount=-CUT_EXTRUDE32_DEPTH, mode=Mode.SUBTRACT)

    # Sketch98 → Boss-Extrude23 (add)
    with BuildSketch(Plane.XZ.offset(-104.775)):
        with BuildLine():
            Line((345.855456024, 13.883292938), (316.979331854, 25.962493289))
            ThreePointArc((316.979331854, 25.962493289), (307.218453945, 23.444957721), (307.005227372, 13.366899509))
            Line((307.005227372, 13.366899509), (381.465724117, -89.305129101))
            ThreePointArc((381.465724117, -89.305129101), (391.463952816, -92.093824678), (396.441551668, -82.985317126))
            Line((396.441551668, -82.985317126), (383.756046671, -9.612392997))
            ThreePointArc((383.756046671, -9.612392997), (380.656766474, -2.710282486), (374.620066838, 1.85073985))
            Line((374.620066838, 1.85073985), (355.042542418, 10.04023365))
            ThreePointArc((355.042542418, 10.04023365), (348.877089577, 8.204009738), (345.855456024, 13.883292938))
        make_face()
        with Locations(Location((368.738835568, -12.208730934, 0), (0, 0, 94.54136383))):
            Circle(SKETCH98_R, mode=Mode.SUBTRACT)
        with Locations(Location((313.759503149, 18.265280659, 0), (0, 0, 270))):
            Circle(SKETCH98_R_2, mode=Mode.SUBTRACT)
        with Locations(Location((388.219999894, -84.406747951, 0), (0, 0, 270))):
            Circle(SKETCH98_R_2, mode=Mode.SUBTRACT)
    extrude(amount=BOSS_EXTRUDE23_DEPTH)

    # Sketch99 → Cut-Extrude37 (cut, through all)
    with BuildSketch(Plane.XZ.offset(-104.775)):
        with Locations((276.11072449, -84.64354836)):
            Rectangle(SKETCH99_W, SKETCH99_H)
    extrude(amount=-CUT_EXTRUDE37_DEPTH, mode=Mode.SUBTRACT)

    # Sketch100 → Boss-Extrude24 (add, through all)
    with BuildSketch(Plane.XZ.offset(-95.885)):
        with Locations((368.738835568, -12.208730934)):
            Circle(SKETCH100_R)
        with Locations(Location((368.738835568, -12.208730934, 0), (0, 0, 270))):
            Circle(SKETCH100_R_2, mode=Mode.SUBTRACT)
    extrude(amount=-BOSS_EXTRUDE24_DEPTH)


solid = body_2.part
